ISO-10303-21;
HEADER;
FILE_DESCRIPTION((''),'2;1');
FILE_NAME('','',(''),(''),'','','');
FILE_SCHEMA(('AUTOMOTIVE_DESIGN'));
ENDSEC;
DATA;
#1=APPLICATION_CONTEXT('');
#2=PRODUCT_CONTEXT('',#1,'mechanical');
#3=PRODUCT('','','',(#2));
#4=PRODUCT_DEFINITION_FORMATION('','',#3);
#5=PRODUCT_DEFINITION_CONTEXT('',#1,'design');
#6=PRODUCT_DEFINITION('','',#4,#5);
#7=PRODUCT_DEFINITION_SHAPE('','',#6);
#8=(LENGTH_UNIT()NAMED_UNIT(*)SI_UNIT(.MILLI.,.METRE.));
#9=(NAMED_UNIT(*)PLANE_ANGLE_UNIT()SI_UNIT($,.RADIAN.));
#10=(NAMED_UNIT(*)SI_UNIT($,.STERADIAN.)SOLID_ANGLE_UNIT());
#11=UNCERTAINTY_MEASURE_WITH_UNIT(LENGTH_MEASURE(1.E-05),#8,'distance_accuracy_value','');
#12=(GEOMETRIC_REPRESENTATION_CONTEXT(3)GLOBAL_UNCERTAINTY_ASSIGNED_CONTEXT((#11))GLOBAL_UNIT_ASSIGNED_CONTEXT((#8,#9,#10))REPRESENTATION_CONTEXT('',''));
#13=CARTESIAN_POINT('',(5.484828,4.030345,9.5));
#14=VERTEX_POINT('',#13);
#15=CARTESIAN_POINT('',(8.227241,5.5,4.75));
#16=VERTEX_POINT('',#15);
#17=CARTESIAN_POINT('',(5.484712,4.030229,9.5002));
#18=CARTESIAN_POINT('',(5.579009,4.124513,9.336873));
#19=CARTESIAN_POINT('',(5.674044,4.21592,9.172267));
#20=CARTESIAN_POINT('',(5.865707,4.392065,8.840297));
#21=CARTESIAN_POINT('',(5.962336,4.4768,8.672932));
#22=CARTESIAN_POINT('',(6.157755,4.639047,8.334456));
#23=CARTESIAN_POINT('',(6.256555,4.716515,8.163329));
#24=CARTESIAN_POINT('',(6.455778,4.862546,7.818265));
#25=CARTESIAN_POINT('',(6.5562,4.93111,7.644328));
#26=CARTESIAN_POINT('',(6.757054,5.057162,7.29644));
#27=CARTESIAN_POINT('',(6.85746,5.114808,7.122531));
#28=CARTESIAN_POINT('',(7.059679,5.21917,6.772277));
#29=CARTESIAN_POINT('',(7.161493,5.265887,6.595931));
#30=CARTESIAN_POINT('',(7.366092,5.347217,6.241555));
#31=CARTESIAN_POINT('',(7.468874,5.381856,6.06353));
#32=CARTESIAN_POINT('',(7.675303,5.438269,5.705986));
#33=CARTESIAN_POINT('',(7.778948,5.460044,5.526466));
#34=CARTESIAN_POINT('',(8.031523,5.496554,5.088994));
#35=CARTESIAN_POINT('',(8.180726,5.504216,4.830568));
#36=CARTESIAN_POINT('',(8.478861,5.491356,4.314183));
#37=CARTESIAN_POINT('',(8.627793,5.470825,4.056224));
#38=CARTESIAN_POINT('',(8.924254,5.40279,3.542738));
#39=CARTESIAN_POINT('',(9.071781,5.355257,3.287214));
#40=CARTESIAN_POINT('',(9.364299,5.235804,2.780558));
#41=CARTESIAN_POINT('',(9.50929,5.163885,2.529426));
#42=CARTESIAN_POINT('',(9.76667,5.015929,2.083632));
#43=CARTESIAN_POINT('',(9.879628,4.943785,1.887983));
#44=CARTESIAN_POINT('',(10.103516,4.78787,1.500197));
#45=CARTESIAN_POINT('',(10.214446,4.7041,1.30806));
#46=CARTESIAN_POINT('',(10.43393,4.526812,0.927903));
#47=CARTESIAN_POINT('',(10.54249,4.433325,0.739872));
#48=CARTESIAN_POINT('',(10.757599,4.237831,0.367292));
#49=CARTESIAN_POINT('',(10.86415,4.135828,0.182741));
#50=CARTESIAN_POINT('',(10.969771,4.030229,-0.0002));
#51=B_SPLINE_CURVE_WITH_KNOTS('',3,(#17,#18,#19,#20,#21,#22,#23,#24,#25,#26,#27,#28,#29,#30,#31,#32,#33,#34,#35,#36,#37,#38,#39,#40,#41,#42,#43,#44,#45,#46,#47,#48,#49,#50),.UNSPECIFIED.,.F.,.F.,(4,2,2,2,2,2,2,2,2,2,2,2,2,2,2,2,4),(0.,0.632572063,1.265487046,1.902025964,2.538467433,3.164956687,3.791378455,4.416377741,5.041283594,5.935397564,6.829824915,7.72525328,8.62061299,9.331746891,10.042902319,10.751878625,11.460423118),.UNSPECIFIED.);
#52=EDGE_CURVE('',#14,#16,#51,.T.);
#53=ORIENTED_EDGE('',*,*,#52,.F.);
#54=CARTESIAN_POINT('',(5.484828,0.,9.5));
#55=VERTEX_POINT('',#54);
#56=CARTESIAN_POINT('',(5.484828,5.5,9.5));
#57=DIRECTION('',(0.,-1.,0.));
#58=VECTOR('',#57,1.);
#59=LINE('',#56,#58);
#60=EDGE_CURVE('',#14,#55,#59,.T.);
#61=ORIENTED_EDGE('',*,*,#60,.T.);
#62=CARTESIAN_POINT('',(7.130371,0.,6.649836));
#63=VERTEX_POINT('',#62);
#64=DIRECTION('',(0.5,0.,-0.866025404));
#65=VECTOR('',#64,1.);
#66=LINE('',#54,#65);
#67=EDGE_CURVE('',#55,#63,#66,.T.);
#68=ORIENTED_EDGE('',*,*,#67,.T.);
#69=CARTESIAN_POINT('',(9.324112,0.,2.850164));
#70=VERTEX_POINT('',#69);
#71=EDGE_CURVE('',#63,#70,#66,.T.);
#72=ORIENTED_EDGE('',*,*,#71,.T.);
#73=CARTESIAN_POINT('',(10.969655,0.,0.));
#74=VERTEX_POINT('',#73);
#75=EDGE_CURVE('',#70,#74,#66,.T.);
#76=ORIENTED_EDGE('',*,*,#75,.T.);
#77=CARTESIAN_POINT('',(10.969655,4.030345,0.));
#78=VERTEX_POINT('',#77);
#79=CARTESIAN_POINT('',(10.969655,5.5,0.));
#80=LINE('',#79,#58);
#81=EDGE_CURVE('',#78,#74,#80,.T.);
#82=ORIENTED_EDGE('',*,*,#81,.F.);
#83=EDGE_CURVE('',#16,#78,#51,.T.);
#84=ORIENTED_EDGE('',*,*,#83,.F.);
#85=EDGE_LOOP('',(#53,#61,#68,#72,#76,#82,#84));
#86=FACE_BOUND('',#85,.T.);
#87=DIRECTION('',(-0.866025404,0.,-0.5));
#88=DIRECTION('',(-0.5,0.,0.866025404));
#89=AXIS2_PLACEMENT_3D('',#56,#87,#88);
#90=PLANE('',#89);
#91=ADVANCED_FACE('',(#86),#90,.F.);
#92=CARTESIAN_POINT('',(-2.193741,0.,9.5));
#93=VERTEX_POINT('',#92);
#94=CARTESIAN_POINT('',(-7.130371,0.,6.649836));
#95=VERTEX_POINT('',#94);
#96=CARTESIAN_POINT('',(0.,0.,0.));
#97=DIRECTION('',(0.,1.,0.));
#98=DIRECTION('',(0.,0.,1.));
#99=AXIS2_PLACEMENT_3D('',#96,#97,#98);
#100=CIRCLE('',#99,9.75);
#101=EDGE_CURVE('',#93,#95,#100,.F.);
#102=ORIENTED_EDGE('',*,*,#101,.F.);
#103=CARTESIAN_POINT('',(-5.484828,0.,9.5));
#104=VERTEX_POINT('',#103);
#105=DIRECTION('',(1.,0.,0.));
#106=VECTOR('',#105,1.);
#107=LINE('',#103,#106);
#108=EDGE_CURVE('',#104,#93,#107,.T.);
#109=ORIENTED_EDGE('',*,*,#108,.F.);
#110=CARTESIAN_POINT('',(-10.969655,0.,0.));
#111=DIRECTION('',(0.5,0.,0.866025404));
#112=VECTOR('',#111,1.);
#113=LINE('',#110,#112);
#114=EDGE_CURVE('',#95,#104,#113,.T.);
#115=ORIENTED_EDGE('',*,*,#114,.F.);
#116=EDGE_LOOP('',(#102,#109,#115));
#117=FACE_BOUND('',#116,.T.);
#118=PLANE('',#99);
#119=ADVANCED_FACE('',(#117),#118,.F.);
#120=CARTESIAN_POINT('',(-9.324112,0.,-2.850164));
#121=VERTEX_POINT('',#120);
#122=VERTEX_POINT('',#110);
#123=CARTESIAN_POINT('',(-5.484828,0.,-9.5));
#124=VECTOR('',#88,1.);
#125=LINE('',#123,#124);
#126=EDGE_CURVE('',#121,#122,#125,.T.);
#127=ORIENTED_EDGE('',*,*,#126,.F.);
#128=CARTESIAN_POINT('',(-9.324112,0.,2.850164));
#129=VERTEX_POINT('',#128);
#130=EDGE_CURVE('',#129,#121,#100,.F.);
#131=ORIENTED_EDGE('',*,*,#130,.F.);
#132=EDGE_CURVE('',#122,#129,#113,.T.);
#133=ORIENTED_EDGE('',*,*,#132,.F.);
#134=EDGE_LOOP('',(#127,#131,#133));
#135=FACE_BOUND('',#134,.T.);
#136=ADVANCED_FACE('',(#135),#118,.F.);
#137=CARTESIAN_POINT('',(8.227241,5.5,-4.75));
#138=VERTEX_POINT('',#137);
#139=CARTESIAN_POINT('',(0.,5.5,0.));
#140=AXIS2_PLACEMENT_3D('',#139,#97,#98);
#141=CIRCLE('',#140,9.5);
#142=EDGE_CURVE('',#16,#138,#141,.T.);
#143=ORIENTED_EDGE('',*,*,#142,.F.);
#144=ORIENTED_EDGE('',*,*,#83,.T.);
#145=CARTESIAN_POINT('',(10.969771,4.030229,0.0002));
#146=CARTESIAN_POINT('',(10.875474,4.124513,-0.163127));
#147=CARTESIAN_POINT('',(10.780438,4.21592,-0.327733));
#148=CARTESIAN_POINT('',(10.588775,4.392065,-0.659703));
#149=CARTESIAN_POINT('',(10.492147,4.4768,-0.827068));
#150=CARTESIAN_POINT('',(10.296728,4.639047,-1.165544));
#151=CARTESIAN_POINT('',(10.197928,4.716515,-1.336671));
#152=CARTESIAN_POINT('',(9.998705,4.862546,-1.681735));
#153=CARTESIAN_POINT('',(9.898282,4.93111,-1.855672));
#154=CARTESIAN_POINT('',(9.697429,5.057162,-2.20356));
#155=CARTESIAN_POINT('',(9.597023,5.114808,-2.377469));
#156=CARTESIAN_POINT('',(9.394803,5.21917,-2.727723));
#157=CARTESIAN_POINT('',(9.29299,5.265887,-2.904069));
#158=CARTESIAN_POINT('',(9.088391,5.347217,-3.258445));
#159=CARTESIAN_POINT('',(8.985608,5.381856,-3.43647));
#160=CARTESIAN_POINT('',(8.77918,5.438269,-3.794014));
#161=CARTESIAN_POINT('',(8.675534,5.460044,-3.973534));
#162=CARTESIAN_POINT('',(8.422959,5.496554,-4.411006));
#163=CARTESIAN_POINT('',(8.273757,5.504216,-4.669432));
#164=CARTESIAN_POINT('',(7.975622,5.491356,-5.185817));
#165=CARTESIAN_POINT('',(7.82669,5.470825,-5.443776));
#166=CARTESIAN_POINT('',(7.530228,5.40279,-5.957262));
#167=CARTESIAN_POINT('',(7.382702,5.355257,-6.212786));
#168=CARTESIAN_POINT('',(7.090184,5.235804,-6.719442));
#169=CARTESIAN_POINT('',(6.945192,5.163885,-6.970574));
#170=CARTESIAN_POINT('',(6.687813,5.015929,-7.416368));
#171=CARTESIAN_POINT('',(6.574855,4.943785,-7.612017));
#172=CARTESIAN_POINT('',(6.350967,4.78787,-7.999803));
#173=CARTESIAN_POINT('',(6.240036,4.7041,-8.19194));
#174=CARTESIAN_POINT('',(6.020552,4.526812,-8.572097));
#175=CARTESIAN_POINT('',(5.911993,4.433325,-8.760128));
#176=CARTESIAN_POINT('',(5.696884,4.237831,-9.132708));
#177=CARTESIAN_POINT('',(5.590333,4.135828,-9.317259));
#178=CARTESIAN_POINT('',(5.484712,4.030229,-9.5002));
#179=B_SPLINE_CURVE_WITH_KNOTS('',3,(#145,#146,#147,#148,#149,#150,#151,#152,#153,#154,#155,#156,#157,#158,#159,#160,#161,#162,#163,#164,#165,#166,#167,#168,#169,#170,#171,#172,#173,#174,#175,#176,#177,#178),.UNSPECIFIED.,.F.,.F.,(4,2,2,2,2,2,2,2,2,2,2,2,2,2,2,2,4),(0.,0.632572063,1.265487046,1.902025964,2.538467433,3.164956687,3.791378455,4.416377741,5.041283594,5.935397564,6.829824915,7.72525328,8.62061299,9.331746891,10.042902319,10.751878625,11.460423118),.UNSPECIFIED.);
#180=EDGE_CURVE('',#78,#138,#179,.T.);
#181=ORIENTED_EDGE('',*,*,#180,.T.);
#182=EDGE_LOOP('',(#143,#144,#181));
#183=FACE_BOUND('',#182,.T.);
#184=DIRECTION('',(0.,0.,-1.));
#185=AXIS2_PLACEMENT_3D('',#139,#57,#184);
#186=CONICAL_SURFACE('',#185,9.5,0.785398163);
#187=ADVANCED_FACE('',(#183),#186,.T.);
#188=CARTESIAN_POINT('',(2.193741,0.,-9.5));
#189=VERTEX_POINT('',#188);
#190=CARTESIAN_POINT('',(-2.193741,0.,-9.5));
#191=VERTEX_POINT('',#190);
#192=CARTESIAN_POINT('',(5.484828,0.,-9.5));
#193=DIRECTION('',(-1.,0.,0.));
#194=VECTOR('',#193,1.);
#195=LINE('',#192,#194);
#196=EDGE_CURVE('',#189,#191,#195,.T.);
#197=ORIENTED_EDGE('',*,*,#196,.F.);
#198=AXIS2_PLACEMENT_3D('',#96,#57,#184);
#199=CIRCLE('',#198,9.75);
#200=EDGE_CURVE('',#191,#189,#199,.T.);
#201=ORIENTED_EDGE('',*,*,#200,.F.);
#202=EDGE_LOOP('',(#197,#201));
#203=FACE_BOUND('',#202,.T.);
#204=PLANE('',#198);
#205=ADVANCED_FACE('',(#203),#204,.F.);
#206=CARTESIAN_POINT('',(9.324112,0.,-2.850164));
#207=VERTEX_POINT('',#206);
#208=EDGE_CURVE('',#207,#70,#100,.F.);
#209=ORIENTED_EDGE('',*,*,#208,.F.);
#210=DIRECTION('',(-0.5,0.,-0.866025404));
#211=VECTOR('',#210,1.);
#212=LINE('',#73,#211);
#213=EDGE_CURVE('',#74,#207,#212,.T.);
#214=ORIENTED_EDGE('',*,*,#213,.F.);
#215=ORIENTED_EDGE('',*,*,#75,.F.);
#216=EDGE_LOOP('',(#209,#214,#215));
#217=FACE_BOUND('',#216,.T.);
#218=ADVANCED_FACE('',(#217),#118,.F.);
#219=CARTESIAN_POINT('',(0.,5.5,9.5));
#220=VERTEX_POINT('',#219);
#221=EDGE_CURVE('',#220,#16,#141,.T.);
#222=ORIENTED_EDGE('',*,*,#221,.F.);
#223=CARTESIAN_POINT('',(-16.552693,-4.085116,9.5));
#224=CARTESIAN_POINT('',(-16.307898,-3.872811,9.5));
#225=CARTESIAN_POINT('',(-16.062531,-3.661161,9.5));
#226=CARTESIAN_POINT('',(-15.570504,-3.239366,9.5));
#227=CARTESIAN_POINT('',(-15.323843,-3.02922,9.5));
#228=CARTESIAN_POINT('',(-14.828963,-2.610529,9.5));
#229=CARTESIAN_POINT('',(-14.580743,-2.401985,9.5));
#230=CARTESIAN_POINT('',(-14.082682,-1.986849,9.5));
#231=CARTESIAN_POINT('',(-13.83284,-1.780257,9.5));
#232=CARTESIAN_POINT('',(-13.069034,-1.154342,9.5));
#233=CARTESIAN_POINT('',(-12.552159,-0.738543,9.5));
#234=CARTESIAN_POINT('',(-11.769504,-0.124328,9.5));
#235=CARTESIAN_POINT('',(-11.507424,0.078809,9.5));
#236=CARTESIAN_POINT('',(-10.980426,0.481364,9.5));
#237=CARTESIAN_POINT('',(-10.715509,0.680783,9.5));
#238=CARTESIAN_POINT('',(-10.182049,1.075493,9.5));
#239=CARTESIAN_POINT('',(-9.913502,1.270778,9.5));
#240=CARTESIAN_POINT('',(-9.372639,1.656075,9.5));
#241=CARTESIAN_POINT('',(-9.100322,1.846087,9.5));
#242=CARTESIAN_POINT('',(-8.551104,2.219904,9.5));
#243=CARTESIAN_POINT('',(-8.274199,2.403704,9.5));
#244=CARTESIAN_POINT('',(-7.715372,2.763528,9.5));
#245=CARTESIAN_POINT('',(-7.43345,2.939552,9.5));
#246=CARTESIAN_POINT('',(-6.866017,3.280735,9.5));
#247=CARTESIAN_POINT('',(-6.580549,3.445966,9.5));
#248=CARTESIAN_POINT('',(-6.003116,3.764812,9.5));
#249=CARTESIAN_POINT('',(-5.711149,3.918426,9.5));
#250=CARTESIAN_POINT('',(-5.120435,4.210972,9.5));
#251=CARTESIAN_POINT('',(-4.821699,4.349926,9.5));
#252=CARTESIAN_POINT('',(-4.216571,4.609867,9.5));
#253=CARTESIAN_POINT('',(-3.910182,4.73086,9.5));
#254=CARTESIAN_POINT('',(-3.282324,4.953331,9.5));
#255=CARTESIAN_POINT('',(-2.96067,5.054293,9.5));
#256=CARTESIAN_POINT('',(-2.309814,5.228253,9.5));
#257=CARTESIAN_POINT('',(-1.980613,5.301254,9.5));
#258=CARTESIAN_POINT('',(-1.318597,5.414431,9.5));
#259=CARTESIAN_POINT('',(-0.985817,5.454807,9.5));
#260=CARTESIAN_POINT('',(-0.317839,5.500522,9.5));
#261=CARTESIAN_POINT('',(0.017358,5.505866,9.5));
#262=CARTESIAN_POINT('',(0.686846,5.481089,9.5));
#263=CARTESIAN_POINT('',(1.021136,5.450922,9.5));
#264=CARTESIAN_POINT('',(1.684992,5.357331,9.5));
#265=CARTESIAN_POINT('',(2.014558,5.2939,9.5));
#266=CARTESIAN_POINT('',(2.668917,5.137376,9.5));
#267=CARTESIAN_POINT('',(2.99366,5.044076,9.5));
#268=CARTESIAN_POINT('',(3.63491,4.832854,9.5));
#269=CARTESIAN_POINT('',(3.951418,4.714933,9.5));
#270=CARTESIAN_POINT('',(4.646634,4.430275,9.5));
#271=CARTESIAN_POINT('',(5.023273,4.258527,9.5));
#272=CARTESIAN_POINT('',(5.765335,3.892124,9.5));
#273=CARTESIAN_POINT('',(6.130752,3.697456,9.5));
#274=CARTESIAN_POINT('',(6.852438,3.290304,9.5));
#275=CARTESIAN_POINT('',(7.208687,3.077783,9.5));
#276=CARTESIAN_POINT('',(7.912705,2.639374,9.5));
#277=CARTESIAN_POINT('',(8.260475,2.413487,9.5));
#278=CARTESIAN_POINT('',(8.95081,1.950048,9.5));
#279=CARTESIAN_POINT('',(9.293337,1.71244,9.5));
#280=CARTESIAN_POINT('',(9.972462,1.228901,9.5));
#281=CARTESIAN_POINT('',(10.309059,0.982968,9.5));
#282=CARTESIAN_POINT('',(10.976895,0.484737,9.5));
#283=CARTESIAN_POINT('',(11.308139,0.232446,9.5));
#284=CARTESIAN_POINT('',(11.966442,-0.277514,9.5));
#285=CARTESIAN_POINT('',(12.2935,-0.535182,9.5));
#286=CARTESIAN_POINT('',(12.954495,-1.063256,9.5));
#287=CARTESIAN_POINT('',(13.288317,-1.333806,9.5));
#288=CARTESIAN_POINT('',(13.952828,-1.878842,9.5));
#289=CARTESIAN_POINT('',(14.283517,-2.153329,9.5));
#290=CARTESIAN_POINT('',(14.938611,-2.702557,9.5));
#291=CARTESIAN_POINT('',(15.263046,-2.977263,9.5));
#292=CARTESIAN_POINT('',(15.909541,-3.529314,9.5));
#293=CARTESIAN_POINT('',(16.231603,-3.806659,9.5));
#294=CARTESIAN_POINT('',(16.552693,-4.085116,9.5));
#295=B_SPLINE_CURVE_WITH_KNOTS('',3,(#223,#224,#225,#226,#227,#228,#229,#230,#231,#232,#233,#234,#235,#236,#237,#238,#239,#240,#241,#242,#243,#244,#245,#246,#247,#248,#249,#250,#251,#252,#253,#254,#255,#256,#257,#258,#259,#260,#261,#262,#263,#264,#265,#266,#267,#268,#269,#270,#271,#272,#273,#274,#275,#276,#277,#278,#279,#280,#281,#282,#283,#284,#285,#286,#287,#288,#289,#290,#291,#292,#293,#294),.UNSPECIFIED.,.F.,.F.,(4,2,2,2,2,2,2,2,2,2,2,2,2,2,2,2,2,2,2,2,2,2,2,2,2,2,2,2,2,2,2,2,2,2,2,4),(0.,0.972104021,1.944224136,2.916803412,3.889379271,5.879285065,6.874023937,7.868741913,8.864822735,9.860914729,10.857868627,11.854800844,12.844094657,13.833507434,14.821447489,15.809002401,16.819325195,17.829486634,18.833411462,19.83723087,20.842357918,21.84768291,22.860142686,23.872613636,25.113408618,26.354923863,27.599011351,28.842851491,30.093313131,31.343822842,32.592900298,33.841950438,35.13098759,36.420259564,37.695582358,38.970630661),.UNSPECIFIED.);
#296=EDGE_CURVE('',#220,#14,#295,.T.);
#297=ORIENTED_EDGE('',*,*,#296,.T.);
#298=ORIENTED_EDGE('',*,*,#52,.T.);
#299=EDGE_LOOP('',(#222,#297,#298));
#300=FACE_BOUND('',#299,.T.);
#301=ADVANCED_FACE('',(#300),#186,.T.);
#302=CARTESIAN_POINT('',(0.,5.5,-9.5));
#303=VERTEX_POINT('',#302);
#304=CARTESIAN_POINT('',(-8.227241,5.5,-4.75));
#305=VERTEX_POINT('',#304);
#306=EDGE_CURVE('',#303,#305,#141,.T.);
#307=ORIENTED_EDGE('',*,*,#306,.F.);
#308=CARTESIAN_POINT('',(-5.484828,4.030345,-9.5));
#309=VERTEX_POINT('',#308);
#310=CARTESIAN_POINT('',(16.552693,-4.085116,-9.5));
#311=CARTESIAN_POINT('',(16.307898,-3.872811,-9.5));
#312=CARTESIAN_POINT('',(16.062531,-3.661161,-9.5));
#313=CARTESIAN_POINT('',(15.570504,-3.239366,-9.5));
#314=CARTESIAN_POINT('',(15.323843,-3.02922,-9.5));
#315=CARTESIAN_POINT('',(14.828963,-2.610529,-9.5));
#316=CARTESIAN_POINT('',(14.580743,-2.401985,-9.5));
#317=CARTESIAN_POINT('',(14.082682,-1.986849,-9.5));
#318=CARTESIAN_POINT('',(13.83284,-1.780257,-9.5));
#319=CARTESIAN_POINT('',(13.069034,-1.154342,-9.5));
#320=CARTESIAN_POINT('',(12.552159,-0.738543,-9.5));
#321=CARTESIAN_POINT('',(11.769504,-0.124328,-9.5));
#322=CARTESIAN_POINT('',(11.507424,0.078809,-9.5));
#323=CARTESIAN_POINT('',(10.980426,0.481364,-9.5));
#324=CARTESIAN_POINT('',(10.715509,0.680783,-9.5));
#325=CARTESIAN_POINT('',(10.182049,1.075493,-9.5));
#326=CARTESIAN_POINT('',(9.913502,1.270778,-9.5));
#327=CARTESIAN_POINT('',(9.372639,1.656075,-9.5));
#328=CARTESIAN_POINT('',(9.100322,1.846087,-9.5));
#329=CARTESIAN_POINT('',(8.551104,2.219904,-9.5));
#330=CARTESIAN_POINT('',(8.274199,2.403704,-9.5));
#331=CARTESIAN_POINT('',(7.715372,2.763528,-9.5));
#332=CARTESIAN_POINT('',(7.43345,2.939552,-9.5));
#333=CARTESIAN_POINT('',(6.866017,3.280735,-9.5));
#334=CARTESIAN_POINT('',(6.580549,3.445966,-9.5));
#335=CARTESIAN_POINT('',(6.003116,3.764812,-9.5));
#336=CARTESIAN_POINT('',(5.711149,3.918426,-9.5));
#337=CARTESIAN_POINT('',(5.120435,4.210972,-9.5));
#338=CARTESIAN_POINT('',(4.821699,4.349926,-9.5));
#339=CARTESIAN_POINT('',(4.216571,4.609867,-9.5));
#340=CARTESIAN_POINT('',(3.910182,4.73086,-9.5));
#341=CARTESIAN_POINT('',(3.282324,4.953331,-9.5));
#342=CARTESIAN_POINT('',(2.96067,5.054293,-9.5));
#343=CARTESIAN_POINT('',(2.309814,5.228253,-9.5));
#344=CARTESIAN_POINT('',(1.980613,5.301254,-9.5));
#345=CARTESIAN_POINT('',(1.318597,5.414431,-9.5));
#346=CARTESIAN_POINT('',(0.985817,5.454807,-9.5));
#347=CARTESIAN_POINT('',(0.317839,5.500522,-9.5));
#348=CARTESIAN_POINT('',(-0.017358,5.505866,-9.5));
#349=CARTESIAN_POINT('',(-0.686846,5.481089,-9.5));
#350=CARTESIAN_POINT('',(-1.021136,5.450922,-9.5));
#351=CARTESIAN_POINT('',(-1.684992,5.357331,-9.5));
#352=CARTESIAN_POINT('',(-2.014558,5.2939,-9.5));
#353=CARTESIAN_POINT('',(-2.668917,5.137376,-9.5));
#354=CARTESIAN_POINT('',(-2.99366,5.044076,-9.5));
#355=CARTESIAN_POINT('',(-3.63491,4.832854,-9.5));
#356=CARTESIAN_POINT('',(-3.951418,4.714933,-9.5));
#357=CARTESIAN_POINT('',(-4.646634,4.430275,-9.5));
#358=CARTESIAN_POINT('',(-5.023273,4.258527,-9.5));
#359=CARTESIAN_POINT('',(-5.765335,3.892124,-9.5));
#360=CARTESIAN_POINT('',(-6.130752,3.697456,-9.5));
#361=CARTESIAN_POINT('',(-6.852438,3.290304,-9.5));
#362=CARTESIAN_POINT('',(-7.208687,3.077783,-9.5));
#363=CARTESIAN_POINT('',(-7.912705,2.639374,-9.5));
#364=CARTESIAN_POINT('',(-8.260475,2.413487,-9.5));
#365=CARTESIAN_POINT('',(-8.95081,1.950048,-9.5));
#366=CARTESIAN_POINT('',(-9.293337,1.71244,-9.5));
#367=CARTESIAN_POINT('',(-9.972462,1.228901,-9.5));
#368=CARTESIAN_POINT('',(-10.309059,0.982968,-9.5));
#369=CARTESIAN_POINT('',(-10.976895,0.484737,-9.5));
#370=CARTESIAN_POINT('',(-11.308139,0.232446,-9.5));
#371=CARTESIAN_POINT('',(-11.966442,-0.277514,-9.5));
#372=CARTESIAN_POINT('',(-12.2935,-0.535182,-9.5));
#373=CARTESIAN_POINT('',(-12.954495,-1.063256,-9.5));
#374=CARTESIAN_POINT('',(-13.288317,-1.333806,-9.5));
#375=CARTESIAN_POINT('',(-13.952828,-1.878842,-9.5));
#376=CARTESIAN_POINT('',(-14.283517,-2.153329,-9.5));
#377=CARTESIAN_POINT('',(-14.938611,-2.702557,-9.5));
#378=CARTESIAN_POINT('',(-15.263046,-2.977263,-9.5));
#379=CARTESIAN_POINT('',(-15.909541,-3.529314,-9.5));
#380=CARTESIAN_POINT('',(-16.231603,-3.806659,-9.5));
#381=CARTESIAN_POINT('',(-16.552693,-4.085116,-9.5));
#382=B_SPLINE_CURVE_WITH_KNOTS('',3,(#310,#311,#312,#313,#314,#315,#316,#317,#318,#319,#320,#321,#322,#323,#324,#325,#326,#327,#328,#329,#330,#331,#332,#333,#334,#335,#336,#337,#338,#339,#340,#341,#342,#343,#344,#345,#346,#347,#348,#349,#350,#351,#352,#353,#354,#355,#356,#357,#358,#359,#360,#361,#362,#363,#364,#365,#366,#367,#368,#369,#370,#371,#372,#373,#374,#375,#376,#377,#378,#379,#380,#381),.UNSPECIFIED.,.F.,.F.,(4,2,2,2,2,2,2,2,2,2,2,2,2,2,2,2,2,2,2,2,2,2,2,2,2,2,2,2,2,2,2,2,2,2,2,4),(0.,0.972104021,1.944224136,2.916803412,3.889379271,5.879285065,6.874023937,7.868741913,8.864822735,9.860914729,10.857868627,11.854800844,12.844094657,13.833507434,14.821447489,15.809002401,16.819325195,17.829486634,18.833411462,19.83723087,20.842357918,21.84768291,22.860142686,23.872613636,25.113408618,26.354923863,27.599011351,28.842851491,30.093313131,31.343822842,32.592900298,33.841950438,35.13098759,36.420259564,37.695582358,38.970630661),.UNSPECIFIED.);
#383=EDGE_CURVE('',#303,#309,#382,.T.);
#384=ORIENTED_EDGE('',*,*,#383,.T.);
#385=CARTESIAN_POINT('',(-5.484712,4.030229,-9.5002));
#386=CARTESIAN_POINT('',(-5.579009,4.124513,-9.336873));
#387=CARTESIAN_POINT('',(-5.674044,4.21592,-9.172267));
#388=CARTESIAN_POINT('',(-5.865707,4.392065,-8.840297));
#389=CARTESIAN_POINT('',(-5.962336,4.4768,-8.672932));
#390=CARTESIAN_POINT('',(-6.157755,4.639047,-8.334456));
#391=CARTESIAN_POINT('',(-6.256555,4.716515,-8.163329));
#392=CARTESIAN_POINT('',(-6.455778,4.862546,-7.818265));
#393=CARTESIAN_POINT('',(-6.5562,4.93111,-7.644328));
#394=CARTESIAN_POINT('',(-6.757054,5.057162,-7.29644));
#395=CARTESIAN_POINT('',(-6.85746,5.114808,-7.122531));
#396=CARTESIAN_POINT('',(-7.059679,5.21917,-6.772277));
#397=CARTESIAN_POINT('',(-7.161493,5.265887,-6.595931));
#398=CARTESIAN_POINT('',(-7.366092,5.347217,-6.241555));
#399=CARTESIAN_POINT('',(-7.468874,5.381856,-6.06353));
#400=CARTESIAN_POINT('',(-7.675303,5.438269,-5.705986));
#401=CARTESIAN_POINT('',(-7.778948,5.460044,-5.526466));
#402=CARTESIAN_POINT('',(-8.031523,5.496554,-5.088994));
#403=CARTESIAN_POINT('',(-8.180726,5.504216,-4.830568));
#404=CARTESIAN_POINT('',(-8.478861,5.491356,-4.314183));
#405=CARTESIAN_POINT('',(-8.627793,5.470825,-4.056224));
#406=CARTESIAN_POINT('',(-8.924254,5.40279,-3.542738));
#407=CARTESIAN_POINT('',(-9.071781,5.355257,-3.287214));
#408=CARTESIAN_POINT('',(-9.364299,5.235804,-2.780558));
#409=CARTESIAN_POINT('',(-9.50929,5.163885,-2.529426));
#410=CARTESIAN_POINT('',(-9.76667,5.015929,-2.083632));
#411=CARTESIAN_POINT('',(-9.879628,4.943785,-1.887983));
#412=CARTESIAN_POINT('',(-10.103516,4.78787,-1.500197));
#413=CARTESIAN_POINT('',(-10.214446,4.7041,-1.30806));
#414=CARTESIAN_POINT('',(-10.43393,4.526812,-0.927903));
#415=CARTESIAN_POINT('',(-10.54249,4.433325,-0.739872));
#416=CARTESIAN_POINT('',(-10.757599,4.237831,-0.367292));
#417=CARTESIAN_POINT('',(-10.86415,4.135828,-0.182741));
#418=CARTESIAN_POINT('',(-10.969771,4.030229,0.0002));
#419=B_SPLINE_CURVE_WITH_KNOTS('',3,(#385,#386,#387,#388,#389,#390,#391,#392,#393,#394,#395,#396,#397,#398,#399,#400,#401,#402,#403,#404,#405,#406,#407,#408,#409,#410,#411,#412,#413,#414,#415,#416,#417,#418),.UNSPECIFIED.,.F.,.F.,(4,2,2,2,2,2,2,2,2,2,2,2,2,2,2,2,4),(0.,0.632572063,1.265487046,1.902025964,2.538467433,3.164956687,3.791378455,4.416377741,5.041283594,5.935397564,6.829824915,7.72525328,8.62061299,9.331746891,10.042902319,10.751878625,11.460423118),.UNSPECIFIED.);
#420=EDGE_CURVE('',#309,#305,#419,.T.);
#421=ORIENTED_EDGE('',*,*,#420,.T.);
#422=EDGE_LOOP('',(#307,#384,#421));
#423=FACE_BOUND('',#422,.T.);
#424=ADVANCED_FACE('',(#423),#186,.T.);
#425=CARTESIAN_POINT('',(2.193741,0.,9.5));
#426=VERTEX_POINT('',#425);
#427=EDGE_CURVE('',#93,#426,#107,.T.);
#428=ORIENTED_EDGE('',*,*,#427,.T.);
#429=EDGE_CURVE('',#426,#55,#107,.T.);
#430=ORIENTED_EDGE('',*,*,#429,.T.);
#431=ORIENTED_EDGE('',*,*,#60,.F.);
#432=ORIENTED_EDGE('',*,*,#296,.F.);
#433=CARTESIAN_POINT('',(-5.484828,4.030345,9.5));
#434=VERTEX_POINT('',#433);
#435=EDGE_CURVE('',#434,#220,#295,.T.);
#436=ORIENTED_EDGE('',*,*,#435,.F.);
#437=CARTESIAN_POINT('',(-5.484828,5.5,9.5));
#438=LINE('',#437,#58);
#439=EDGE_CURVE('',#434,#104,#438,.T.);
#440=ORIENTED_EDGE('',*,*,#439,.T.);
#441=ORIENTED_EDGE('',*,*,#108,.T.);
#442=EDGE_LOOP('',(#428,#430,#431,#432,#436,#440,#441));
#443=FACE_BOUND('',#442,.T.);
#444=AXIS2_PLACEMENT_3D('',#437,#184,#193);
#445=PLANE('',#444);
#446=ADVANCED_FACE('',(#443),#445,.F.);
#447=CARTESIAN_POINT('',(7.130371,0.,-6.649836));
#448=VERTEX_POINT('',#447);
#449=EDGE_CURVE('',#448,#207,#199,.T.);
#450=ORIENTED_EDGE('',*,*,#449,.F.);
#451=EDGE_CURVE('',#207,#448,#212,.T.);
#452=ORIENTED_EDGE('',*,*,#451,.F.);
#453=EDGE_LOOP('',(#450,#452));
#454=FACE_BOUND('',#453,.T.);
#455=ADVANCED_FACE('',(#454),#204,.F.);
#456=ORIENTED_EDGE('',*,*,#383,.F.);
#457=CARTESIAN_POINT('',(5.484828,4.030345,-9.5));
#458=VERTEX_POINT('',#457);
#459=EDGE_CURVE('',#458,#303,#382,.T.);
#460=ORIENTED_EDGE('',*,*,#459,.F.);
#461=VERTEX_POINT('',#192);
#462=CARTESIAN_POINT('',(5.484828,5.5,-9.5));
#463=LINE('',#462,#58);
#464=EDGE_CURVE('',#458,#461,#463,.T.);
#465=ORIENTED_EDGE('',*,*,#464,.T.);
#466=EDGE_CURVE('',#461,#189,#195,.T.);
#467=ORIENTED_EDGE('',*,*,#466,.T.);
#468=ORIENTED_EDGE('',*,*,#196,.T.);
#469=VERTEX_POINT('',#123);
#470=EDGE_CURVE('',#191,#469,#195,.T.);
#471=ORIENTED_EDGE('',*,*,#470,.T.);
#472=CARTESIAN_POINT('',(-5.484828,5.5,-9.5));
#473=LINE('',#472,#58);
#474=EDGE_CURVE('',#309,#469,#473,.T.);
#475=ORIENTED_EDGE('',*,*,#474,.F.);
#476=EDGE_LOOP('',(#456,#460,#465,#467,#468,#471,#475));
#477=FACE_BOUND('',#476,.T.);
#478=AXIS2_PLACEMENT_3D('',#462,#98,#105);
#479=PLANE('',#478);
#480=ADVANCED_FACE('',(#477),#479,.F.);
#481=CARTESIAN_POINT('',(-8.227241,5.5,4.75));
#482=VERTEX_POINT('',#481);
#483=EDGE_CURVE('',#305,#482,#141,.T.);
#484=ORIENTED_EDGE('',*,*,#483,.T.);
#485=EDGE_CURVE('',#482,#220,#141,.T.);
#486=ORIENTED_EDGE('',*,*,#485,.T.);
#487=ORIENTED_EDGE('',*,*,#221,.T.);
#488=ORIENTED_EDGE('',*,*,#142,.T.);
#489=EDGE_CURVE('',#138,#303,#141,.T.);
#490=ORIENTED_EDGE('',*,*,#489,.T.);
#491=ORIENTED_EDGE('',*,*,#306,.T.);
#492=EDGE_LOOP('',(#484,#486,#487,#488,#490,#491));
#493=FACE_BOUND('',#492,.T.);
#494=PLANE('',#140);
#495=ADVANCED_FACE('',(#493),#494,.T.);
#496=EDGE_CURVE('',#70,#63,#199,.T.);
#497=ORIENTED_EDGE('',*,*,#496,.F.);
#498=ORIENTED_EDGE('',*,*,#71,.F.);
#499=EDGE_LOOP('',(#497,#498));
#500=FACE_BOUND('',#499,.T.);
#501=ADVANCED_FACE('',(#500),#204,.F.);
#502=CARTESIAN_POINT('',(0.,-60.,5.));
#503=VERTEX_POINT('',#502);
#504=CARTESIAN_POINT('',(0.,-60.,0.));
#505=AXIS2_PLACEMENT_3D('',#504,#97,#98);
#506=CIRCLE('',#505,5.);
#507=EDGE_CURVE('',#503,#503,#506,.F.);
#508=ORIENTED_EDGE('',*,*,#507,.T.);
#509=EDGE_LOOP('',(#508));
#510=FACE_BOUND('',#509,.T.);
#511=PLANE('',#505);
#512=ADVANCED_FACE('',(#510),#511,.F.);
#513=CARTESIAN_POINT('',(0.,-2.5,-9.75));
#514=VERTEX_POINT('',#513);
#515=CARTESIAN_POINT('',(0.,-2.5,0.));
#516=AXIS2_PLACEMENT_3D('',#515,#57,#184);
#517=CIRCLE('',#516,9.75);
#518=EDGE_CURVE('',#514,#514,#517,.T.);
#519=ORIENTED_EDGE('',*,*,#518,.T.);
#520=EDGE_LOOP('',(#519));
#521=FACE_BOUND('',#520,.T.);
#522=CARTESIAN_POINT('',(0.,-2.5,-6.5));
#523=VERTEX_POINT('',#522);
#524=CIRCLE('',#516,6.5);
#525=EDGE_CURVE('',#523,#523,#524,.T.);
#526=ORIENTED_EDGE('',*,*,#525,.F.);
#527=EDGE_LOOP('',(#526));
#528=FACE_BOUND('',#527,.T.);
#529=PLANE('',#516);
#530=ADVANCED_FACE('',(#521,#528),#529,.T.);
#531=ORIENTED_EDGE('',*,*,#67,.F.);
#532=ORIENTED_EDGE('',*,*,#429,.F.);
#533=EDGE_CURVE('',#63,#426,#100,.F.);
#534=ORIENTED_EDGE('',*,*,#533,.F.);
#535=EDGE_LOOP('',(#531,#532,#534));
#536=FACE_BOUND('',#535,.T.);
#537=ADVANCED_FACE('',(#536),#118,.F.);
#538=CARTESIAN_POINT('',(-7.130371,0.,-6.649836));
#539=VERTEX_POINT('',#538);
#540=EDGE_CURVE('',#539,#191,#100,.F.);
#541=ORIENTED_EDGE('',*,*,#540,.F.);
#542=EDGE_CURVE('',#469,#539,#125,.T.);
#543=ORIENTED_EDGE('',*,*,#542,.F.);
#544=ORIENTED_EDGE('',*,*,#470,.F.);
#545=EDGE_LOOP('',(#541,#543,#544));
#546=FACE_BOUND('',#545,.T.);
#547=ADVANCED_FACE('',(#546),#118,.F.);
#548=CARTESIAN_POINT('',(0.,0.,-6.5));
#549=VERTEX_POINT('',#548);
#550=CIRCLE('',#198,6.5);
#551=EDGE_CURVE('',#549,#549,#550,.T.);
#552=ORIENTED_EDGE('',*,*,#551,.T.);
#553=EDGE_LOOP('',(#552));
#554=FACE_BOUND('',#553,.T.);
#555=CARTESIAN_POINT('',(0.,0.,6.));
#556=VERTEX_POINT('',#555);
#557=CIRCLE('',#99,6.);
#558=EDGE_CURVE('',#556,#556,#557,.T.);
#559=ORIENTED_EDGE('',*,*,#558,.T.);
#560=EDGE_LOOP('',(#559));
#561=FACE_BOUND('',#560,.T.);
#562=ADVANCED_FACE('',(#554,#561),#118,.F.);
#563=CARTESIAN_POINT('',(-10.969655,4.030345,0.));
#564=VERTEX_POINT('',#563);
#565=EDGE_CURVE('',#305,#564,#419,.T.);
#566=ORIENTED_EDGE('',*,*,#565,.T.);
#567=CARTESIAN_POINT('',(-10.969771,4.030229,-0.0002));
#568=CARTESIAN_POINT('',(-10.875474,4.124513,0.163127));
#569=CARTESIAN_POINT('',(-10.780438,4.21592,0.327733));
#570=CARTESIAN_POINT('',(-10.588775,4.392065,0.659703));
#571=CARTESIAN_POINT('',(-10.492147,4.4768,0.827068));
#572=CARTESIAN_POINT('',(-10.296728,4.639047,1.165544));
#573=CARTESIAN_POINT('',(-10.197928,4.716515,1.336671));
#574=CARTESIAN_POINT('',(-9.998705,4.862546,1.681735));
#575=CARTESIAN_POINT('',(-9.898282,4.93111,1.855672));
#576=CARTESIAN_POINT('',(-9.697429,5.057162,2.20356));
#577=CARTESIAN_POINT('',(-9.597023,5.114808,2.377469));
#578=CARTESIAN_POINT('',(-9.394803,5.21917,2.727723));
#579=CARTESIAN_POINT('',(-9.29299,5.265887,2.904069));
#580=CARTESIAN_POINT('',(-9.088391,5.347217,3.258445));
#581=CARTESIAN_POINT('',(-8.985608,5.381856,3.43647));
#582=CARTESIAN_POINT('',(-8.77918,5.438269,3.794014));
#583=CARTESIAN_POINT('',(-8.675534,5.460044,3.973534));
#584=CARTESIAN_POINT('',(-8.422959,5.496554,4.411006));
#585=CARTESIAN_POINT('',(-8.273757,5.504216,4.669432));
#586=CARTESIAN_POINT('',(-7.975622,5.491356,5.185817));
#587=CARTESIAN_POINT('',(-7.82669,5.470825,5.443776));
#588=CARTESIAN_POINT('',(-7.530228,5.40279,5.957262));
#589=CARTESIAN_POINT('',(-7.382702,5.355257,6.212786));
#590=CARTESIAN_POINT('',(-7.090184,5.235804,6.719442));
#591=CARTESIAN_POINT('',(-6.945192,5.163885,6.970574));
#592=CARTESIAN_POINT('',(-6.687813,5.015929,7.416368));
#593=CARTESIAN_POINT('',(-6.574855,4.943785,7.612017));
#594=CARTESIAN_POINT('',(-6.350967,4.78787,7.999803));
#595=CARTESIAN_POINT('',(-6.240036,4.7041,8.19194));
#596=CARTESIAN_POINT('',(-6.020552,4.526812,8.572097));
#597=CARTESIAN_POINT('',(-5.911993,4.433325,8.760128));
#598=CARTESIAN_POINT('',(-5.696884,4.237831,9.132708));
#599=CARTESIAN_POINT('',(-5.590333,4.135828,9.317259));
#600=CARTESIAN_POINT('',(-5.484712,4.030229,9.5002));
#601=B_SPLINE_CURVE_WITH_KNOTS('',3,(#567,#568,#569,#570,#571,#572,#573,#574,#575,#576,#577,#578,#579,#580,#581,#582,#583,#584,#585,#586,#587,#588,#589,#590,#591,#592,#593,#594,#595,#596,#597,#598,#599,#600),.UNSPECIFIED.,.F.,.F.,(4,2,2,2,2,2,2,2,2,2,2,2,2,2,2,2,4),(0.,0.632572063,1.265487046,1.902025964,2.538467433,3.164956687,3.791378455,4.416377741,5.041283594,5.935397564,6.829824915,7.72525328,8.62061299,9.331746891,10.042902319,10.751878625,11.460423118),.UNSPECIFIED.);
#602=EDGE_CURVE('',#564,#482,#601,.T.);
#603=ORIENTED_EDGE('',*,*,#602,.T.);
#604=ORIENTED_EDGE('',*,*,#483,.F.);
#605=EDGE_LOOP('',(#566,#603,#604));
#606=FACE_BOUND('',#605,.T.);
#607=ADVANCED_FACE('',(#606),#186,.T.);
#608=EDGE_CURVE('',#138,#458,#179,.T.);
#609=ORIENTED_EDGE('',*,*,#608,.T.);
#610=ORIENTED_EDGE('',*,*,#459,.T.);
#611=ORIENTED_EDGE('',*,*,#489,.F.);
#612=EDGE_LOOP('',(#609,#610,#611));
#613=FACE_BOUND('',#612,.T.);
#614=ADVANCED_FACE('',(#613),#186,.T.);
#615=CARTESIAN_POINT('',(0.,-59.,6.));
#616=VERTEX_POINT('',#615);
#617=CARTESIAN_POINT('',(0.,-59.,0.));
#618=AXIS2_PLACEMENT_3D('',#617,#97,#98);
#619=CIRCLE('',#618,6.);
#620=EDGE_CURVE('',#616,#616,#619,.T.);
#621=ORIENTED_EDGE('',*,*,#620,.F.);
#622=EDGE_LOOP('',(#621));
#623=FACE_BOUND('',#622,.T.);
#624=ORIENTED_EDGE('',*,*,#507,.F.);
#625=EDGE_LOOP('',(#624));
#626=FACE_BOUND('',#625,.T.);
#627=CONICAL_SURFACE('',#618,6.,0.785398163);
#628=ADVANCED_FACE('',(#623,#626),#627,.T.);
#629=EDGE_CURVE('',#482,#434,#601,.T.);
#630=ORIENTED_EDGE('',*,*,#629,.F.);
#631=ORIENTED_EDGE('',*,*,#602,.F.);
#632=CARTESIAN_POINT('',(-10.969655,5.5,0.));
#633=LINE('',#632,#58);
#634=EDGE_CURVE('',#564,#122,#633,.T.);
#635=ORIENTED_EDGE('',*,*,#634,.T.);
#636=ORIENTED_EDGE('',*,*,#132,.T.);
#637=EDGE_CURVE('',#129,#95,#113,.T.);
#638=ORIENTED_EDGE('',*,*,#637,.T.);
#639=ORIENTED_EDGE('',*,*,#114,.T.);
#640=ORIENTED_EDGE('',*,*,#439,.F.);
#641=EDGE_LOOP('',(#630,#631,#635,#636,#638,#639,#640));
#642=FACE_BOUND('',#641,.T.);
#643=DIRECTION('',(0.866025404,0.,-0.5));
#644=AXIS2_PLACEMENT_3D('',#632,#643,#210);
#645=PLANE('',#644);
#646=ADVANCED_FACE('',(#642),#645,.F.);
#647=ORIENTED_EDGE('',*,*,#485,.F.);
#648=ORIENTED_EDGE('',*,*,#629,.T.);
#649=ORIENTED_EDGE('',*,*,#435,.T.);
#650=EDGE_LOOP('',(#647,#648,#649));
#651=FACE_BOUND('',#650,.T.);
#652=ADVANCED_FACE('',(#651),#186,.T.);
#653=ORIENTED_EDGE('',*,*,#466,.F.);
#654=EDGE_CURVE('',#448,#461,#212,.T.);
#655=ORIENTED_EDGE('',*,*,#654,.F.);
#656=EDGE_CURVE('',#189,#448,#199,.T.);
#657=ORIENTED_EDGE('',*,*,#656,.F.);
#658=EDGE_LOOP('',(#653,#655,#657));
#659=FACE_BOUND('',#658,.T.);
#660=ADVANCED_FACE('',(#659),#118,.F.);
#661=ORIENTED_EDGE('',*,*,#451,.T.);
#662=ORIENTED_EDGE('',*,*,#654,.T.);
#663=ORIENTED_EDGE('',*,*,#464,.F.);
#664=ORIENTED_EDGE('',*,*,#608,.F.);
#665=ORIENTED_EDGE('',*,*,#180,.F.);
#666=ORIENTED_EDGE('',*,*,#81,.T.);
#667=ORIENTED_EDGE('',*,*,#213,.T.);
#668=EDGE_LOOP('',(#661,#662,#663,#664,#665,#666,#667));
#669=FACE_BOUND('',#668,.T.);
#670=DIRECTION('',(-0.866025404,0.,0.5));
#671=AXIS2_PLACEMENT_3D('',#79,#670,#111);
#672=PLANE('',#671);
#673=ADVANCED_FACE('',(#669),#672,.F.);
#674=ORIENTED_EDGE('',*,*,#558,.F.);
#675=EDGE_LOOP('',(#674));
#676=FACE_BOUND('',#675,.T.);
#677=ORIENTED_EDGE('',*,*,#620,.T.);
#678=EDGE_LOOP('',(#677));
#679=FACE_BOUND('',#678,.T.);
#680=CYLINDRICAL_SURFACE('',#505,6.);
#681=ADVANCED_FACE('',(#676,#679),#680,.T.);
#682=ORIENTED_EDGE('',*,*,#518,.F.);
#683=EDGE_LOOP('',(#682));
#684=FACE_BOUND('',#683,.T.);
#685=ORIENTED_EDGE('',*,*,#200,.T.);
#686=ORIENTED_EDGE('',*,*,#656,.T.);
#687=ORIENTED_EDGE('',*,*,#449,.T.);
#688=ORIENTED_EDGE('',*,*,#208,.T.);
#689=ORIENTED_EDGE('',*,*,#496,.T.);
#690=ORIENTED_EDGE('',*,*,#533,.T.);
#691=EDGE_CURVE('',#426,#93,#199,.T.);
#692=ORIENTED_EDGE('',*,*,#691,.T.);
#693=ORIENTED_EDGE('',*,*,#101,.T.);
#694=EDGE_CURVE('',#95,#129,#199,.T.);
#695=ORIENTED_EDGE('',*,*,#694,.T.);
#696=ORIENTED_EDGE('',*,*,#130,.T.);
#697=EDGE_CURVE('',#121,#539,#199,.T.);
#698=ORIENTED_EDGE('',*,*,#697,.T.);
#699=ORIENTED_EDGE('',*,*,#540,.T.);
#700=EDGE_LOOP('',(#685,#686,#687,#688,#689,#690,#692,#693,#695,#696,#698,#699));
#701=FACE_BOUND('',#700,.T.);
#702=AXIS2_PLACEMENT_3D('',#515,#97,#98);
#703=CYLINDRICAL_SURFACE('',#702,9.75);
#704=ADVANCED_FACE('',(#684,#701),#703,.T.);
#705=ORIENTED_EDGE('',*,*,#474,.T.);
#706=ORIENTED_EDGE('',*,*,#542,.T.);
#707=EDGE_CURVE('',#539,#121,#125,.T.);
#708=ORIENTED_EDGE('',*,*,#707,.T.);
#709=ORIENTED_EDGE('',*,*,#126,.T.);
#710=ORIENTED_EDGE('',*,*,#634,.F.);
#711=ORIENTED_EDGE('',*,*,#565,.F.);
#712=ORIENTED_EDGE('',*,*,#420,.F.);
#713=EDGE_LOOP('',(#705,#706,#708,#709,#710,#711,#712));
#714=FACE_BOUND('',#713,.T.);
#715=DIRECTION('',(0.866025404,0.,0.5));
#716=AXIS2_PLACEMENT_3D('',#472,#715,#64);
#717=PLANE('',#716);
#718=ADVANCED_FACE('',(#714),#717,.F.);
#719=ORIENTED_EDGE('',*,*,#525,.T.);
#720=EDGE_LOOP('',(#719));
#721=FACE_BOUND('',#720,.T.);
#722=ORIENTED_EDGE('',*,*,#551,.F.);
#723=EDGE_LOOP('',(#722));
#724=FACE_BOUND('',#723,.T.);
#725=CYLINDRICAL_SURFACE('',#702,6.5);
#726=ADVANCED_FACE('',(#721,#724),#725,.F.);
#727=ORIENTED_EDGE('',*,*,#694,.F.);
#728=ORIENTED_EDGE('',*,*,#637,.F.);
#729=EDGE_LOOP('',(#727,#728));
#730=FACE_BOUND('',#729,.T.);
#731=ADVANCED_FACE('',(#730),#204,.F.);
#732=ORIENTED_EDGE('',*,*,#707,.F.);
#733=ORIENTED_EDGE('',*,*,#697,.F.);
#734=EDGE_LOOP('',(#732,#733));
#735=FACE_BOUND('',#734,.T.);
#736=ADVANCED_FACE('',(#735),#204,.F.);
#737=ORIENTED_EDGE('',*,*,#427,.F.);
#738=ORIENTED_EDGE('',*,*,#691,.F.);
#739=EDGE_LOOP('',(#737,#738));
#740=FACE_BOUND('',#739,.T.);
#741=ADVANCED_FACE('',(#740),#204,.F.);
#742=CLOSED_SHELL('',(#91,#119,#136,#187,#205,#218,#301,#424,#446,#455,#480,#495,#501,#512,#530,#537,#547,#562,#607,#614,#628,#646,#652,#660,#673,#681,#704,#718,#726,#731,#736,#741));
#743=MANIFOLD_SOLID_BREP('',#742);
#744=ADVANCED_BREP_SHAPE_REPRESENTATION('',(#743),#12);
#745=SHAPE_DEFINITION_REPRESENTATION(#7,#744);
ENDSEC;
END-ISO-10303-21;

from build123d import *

# Parameters (mm, degrees)
SZKIC1_R                    = 6
DODANIE_WYCI_GNI_CIE1_DEPTH = 60
DODANIE_WYCI_GNI_CIE2_DEPTH = 5.5
SFAZOWANIE1_SIZE            = 1
SZKIC6_R                    = 9.75
SZKIC6_R_2                  = 6.5
DODANIE_WYCI_GNI_CIE3_DEPTH = 2.5


with BuildPart() as part:
    # Szkic1 → Dodanie-wyciągnięcie1 (new body)
    with BuildSketch(Plane(origin=(0, 0, 0), x_dir=(1, 0, 0), z_dir=(0, 1, 0))):
        with Locations(Location((0, 0, 0), (0, 0, 270))):
            Circle(SZKIC1_R)
    extrude(amount=-DODANIE_WYCI_GNI_CIE1_DEPTH)

    # Szkic2 → Dodanie-wyciągnięcie2 (add)
    with BuildSketch(Plane(origin=(0, 0, 0), x_dir=(1, 0, 0), z_dir=(0, 1, 0))):
        Polygon((10.969655115, 0), (5.484827557, 9.5), (-5.484827557, 9.5), (-10.969655115, 0), (-5.484827557, -9.5), (5.484827557, -9.5), align=None)
    extrude(amount=DODANIE_WYCI_GNI_CIE2_DEPTH)

    # Szkic4 → Wycięcie-obrót1 (revolve, cut)
    with BuildSketch(Plane.XY):
        Polygon((10.969655115, 4.030344885), (9.5, 5.5), (10.969655115, 5.5), align=None)
    revolve(axis=Axis((0, 5.5, 0), (0, -1, 0)), mode=Mode.SUBTRACT)

    # Sfazowanie1
    sfazowanie1_edges = [part.edges().sort_by_distance(p)[0] for p in [
        (0, -60, -6),
    ]]
    chamfer(sfazowanie1_edges, length=SFAZOWANIE1_SIZE)

    # Szkic6 → Dodanie-wyciągnięcie3 (add)
    with BuildSketch(Plane.XZ):
        with Locations(Location((0, 0, 0), (0, 0, 76.997175533))):
            Circle(SZKIC6_R)
        with Locations(Location((0, 0, 0), (0, 0, 270))):
            Circle(SZKIC6_R_2, mode=Mode.SUBTRACT)
    extrude(amount=DODANIE_WYCI_GNI_CIE3_DEPTH)


solid = part.part
